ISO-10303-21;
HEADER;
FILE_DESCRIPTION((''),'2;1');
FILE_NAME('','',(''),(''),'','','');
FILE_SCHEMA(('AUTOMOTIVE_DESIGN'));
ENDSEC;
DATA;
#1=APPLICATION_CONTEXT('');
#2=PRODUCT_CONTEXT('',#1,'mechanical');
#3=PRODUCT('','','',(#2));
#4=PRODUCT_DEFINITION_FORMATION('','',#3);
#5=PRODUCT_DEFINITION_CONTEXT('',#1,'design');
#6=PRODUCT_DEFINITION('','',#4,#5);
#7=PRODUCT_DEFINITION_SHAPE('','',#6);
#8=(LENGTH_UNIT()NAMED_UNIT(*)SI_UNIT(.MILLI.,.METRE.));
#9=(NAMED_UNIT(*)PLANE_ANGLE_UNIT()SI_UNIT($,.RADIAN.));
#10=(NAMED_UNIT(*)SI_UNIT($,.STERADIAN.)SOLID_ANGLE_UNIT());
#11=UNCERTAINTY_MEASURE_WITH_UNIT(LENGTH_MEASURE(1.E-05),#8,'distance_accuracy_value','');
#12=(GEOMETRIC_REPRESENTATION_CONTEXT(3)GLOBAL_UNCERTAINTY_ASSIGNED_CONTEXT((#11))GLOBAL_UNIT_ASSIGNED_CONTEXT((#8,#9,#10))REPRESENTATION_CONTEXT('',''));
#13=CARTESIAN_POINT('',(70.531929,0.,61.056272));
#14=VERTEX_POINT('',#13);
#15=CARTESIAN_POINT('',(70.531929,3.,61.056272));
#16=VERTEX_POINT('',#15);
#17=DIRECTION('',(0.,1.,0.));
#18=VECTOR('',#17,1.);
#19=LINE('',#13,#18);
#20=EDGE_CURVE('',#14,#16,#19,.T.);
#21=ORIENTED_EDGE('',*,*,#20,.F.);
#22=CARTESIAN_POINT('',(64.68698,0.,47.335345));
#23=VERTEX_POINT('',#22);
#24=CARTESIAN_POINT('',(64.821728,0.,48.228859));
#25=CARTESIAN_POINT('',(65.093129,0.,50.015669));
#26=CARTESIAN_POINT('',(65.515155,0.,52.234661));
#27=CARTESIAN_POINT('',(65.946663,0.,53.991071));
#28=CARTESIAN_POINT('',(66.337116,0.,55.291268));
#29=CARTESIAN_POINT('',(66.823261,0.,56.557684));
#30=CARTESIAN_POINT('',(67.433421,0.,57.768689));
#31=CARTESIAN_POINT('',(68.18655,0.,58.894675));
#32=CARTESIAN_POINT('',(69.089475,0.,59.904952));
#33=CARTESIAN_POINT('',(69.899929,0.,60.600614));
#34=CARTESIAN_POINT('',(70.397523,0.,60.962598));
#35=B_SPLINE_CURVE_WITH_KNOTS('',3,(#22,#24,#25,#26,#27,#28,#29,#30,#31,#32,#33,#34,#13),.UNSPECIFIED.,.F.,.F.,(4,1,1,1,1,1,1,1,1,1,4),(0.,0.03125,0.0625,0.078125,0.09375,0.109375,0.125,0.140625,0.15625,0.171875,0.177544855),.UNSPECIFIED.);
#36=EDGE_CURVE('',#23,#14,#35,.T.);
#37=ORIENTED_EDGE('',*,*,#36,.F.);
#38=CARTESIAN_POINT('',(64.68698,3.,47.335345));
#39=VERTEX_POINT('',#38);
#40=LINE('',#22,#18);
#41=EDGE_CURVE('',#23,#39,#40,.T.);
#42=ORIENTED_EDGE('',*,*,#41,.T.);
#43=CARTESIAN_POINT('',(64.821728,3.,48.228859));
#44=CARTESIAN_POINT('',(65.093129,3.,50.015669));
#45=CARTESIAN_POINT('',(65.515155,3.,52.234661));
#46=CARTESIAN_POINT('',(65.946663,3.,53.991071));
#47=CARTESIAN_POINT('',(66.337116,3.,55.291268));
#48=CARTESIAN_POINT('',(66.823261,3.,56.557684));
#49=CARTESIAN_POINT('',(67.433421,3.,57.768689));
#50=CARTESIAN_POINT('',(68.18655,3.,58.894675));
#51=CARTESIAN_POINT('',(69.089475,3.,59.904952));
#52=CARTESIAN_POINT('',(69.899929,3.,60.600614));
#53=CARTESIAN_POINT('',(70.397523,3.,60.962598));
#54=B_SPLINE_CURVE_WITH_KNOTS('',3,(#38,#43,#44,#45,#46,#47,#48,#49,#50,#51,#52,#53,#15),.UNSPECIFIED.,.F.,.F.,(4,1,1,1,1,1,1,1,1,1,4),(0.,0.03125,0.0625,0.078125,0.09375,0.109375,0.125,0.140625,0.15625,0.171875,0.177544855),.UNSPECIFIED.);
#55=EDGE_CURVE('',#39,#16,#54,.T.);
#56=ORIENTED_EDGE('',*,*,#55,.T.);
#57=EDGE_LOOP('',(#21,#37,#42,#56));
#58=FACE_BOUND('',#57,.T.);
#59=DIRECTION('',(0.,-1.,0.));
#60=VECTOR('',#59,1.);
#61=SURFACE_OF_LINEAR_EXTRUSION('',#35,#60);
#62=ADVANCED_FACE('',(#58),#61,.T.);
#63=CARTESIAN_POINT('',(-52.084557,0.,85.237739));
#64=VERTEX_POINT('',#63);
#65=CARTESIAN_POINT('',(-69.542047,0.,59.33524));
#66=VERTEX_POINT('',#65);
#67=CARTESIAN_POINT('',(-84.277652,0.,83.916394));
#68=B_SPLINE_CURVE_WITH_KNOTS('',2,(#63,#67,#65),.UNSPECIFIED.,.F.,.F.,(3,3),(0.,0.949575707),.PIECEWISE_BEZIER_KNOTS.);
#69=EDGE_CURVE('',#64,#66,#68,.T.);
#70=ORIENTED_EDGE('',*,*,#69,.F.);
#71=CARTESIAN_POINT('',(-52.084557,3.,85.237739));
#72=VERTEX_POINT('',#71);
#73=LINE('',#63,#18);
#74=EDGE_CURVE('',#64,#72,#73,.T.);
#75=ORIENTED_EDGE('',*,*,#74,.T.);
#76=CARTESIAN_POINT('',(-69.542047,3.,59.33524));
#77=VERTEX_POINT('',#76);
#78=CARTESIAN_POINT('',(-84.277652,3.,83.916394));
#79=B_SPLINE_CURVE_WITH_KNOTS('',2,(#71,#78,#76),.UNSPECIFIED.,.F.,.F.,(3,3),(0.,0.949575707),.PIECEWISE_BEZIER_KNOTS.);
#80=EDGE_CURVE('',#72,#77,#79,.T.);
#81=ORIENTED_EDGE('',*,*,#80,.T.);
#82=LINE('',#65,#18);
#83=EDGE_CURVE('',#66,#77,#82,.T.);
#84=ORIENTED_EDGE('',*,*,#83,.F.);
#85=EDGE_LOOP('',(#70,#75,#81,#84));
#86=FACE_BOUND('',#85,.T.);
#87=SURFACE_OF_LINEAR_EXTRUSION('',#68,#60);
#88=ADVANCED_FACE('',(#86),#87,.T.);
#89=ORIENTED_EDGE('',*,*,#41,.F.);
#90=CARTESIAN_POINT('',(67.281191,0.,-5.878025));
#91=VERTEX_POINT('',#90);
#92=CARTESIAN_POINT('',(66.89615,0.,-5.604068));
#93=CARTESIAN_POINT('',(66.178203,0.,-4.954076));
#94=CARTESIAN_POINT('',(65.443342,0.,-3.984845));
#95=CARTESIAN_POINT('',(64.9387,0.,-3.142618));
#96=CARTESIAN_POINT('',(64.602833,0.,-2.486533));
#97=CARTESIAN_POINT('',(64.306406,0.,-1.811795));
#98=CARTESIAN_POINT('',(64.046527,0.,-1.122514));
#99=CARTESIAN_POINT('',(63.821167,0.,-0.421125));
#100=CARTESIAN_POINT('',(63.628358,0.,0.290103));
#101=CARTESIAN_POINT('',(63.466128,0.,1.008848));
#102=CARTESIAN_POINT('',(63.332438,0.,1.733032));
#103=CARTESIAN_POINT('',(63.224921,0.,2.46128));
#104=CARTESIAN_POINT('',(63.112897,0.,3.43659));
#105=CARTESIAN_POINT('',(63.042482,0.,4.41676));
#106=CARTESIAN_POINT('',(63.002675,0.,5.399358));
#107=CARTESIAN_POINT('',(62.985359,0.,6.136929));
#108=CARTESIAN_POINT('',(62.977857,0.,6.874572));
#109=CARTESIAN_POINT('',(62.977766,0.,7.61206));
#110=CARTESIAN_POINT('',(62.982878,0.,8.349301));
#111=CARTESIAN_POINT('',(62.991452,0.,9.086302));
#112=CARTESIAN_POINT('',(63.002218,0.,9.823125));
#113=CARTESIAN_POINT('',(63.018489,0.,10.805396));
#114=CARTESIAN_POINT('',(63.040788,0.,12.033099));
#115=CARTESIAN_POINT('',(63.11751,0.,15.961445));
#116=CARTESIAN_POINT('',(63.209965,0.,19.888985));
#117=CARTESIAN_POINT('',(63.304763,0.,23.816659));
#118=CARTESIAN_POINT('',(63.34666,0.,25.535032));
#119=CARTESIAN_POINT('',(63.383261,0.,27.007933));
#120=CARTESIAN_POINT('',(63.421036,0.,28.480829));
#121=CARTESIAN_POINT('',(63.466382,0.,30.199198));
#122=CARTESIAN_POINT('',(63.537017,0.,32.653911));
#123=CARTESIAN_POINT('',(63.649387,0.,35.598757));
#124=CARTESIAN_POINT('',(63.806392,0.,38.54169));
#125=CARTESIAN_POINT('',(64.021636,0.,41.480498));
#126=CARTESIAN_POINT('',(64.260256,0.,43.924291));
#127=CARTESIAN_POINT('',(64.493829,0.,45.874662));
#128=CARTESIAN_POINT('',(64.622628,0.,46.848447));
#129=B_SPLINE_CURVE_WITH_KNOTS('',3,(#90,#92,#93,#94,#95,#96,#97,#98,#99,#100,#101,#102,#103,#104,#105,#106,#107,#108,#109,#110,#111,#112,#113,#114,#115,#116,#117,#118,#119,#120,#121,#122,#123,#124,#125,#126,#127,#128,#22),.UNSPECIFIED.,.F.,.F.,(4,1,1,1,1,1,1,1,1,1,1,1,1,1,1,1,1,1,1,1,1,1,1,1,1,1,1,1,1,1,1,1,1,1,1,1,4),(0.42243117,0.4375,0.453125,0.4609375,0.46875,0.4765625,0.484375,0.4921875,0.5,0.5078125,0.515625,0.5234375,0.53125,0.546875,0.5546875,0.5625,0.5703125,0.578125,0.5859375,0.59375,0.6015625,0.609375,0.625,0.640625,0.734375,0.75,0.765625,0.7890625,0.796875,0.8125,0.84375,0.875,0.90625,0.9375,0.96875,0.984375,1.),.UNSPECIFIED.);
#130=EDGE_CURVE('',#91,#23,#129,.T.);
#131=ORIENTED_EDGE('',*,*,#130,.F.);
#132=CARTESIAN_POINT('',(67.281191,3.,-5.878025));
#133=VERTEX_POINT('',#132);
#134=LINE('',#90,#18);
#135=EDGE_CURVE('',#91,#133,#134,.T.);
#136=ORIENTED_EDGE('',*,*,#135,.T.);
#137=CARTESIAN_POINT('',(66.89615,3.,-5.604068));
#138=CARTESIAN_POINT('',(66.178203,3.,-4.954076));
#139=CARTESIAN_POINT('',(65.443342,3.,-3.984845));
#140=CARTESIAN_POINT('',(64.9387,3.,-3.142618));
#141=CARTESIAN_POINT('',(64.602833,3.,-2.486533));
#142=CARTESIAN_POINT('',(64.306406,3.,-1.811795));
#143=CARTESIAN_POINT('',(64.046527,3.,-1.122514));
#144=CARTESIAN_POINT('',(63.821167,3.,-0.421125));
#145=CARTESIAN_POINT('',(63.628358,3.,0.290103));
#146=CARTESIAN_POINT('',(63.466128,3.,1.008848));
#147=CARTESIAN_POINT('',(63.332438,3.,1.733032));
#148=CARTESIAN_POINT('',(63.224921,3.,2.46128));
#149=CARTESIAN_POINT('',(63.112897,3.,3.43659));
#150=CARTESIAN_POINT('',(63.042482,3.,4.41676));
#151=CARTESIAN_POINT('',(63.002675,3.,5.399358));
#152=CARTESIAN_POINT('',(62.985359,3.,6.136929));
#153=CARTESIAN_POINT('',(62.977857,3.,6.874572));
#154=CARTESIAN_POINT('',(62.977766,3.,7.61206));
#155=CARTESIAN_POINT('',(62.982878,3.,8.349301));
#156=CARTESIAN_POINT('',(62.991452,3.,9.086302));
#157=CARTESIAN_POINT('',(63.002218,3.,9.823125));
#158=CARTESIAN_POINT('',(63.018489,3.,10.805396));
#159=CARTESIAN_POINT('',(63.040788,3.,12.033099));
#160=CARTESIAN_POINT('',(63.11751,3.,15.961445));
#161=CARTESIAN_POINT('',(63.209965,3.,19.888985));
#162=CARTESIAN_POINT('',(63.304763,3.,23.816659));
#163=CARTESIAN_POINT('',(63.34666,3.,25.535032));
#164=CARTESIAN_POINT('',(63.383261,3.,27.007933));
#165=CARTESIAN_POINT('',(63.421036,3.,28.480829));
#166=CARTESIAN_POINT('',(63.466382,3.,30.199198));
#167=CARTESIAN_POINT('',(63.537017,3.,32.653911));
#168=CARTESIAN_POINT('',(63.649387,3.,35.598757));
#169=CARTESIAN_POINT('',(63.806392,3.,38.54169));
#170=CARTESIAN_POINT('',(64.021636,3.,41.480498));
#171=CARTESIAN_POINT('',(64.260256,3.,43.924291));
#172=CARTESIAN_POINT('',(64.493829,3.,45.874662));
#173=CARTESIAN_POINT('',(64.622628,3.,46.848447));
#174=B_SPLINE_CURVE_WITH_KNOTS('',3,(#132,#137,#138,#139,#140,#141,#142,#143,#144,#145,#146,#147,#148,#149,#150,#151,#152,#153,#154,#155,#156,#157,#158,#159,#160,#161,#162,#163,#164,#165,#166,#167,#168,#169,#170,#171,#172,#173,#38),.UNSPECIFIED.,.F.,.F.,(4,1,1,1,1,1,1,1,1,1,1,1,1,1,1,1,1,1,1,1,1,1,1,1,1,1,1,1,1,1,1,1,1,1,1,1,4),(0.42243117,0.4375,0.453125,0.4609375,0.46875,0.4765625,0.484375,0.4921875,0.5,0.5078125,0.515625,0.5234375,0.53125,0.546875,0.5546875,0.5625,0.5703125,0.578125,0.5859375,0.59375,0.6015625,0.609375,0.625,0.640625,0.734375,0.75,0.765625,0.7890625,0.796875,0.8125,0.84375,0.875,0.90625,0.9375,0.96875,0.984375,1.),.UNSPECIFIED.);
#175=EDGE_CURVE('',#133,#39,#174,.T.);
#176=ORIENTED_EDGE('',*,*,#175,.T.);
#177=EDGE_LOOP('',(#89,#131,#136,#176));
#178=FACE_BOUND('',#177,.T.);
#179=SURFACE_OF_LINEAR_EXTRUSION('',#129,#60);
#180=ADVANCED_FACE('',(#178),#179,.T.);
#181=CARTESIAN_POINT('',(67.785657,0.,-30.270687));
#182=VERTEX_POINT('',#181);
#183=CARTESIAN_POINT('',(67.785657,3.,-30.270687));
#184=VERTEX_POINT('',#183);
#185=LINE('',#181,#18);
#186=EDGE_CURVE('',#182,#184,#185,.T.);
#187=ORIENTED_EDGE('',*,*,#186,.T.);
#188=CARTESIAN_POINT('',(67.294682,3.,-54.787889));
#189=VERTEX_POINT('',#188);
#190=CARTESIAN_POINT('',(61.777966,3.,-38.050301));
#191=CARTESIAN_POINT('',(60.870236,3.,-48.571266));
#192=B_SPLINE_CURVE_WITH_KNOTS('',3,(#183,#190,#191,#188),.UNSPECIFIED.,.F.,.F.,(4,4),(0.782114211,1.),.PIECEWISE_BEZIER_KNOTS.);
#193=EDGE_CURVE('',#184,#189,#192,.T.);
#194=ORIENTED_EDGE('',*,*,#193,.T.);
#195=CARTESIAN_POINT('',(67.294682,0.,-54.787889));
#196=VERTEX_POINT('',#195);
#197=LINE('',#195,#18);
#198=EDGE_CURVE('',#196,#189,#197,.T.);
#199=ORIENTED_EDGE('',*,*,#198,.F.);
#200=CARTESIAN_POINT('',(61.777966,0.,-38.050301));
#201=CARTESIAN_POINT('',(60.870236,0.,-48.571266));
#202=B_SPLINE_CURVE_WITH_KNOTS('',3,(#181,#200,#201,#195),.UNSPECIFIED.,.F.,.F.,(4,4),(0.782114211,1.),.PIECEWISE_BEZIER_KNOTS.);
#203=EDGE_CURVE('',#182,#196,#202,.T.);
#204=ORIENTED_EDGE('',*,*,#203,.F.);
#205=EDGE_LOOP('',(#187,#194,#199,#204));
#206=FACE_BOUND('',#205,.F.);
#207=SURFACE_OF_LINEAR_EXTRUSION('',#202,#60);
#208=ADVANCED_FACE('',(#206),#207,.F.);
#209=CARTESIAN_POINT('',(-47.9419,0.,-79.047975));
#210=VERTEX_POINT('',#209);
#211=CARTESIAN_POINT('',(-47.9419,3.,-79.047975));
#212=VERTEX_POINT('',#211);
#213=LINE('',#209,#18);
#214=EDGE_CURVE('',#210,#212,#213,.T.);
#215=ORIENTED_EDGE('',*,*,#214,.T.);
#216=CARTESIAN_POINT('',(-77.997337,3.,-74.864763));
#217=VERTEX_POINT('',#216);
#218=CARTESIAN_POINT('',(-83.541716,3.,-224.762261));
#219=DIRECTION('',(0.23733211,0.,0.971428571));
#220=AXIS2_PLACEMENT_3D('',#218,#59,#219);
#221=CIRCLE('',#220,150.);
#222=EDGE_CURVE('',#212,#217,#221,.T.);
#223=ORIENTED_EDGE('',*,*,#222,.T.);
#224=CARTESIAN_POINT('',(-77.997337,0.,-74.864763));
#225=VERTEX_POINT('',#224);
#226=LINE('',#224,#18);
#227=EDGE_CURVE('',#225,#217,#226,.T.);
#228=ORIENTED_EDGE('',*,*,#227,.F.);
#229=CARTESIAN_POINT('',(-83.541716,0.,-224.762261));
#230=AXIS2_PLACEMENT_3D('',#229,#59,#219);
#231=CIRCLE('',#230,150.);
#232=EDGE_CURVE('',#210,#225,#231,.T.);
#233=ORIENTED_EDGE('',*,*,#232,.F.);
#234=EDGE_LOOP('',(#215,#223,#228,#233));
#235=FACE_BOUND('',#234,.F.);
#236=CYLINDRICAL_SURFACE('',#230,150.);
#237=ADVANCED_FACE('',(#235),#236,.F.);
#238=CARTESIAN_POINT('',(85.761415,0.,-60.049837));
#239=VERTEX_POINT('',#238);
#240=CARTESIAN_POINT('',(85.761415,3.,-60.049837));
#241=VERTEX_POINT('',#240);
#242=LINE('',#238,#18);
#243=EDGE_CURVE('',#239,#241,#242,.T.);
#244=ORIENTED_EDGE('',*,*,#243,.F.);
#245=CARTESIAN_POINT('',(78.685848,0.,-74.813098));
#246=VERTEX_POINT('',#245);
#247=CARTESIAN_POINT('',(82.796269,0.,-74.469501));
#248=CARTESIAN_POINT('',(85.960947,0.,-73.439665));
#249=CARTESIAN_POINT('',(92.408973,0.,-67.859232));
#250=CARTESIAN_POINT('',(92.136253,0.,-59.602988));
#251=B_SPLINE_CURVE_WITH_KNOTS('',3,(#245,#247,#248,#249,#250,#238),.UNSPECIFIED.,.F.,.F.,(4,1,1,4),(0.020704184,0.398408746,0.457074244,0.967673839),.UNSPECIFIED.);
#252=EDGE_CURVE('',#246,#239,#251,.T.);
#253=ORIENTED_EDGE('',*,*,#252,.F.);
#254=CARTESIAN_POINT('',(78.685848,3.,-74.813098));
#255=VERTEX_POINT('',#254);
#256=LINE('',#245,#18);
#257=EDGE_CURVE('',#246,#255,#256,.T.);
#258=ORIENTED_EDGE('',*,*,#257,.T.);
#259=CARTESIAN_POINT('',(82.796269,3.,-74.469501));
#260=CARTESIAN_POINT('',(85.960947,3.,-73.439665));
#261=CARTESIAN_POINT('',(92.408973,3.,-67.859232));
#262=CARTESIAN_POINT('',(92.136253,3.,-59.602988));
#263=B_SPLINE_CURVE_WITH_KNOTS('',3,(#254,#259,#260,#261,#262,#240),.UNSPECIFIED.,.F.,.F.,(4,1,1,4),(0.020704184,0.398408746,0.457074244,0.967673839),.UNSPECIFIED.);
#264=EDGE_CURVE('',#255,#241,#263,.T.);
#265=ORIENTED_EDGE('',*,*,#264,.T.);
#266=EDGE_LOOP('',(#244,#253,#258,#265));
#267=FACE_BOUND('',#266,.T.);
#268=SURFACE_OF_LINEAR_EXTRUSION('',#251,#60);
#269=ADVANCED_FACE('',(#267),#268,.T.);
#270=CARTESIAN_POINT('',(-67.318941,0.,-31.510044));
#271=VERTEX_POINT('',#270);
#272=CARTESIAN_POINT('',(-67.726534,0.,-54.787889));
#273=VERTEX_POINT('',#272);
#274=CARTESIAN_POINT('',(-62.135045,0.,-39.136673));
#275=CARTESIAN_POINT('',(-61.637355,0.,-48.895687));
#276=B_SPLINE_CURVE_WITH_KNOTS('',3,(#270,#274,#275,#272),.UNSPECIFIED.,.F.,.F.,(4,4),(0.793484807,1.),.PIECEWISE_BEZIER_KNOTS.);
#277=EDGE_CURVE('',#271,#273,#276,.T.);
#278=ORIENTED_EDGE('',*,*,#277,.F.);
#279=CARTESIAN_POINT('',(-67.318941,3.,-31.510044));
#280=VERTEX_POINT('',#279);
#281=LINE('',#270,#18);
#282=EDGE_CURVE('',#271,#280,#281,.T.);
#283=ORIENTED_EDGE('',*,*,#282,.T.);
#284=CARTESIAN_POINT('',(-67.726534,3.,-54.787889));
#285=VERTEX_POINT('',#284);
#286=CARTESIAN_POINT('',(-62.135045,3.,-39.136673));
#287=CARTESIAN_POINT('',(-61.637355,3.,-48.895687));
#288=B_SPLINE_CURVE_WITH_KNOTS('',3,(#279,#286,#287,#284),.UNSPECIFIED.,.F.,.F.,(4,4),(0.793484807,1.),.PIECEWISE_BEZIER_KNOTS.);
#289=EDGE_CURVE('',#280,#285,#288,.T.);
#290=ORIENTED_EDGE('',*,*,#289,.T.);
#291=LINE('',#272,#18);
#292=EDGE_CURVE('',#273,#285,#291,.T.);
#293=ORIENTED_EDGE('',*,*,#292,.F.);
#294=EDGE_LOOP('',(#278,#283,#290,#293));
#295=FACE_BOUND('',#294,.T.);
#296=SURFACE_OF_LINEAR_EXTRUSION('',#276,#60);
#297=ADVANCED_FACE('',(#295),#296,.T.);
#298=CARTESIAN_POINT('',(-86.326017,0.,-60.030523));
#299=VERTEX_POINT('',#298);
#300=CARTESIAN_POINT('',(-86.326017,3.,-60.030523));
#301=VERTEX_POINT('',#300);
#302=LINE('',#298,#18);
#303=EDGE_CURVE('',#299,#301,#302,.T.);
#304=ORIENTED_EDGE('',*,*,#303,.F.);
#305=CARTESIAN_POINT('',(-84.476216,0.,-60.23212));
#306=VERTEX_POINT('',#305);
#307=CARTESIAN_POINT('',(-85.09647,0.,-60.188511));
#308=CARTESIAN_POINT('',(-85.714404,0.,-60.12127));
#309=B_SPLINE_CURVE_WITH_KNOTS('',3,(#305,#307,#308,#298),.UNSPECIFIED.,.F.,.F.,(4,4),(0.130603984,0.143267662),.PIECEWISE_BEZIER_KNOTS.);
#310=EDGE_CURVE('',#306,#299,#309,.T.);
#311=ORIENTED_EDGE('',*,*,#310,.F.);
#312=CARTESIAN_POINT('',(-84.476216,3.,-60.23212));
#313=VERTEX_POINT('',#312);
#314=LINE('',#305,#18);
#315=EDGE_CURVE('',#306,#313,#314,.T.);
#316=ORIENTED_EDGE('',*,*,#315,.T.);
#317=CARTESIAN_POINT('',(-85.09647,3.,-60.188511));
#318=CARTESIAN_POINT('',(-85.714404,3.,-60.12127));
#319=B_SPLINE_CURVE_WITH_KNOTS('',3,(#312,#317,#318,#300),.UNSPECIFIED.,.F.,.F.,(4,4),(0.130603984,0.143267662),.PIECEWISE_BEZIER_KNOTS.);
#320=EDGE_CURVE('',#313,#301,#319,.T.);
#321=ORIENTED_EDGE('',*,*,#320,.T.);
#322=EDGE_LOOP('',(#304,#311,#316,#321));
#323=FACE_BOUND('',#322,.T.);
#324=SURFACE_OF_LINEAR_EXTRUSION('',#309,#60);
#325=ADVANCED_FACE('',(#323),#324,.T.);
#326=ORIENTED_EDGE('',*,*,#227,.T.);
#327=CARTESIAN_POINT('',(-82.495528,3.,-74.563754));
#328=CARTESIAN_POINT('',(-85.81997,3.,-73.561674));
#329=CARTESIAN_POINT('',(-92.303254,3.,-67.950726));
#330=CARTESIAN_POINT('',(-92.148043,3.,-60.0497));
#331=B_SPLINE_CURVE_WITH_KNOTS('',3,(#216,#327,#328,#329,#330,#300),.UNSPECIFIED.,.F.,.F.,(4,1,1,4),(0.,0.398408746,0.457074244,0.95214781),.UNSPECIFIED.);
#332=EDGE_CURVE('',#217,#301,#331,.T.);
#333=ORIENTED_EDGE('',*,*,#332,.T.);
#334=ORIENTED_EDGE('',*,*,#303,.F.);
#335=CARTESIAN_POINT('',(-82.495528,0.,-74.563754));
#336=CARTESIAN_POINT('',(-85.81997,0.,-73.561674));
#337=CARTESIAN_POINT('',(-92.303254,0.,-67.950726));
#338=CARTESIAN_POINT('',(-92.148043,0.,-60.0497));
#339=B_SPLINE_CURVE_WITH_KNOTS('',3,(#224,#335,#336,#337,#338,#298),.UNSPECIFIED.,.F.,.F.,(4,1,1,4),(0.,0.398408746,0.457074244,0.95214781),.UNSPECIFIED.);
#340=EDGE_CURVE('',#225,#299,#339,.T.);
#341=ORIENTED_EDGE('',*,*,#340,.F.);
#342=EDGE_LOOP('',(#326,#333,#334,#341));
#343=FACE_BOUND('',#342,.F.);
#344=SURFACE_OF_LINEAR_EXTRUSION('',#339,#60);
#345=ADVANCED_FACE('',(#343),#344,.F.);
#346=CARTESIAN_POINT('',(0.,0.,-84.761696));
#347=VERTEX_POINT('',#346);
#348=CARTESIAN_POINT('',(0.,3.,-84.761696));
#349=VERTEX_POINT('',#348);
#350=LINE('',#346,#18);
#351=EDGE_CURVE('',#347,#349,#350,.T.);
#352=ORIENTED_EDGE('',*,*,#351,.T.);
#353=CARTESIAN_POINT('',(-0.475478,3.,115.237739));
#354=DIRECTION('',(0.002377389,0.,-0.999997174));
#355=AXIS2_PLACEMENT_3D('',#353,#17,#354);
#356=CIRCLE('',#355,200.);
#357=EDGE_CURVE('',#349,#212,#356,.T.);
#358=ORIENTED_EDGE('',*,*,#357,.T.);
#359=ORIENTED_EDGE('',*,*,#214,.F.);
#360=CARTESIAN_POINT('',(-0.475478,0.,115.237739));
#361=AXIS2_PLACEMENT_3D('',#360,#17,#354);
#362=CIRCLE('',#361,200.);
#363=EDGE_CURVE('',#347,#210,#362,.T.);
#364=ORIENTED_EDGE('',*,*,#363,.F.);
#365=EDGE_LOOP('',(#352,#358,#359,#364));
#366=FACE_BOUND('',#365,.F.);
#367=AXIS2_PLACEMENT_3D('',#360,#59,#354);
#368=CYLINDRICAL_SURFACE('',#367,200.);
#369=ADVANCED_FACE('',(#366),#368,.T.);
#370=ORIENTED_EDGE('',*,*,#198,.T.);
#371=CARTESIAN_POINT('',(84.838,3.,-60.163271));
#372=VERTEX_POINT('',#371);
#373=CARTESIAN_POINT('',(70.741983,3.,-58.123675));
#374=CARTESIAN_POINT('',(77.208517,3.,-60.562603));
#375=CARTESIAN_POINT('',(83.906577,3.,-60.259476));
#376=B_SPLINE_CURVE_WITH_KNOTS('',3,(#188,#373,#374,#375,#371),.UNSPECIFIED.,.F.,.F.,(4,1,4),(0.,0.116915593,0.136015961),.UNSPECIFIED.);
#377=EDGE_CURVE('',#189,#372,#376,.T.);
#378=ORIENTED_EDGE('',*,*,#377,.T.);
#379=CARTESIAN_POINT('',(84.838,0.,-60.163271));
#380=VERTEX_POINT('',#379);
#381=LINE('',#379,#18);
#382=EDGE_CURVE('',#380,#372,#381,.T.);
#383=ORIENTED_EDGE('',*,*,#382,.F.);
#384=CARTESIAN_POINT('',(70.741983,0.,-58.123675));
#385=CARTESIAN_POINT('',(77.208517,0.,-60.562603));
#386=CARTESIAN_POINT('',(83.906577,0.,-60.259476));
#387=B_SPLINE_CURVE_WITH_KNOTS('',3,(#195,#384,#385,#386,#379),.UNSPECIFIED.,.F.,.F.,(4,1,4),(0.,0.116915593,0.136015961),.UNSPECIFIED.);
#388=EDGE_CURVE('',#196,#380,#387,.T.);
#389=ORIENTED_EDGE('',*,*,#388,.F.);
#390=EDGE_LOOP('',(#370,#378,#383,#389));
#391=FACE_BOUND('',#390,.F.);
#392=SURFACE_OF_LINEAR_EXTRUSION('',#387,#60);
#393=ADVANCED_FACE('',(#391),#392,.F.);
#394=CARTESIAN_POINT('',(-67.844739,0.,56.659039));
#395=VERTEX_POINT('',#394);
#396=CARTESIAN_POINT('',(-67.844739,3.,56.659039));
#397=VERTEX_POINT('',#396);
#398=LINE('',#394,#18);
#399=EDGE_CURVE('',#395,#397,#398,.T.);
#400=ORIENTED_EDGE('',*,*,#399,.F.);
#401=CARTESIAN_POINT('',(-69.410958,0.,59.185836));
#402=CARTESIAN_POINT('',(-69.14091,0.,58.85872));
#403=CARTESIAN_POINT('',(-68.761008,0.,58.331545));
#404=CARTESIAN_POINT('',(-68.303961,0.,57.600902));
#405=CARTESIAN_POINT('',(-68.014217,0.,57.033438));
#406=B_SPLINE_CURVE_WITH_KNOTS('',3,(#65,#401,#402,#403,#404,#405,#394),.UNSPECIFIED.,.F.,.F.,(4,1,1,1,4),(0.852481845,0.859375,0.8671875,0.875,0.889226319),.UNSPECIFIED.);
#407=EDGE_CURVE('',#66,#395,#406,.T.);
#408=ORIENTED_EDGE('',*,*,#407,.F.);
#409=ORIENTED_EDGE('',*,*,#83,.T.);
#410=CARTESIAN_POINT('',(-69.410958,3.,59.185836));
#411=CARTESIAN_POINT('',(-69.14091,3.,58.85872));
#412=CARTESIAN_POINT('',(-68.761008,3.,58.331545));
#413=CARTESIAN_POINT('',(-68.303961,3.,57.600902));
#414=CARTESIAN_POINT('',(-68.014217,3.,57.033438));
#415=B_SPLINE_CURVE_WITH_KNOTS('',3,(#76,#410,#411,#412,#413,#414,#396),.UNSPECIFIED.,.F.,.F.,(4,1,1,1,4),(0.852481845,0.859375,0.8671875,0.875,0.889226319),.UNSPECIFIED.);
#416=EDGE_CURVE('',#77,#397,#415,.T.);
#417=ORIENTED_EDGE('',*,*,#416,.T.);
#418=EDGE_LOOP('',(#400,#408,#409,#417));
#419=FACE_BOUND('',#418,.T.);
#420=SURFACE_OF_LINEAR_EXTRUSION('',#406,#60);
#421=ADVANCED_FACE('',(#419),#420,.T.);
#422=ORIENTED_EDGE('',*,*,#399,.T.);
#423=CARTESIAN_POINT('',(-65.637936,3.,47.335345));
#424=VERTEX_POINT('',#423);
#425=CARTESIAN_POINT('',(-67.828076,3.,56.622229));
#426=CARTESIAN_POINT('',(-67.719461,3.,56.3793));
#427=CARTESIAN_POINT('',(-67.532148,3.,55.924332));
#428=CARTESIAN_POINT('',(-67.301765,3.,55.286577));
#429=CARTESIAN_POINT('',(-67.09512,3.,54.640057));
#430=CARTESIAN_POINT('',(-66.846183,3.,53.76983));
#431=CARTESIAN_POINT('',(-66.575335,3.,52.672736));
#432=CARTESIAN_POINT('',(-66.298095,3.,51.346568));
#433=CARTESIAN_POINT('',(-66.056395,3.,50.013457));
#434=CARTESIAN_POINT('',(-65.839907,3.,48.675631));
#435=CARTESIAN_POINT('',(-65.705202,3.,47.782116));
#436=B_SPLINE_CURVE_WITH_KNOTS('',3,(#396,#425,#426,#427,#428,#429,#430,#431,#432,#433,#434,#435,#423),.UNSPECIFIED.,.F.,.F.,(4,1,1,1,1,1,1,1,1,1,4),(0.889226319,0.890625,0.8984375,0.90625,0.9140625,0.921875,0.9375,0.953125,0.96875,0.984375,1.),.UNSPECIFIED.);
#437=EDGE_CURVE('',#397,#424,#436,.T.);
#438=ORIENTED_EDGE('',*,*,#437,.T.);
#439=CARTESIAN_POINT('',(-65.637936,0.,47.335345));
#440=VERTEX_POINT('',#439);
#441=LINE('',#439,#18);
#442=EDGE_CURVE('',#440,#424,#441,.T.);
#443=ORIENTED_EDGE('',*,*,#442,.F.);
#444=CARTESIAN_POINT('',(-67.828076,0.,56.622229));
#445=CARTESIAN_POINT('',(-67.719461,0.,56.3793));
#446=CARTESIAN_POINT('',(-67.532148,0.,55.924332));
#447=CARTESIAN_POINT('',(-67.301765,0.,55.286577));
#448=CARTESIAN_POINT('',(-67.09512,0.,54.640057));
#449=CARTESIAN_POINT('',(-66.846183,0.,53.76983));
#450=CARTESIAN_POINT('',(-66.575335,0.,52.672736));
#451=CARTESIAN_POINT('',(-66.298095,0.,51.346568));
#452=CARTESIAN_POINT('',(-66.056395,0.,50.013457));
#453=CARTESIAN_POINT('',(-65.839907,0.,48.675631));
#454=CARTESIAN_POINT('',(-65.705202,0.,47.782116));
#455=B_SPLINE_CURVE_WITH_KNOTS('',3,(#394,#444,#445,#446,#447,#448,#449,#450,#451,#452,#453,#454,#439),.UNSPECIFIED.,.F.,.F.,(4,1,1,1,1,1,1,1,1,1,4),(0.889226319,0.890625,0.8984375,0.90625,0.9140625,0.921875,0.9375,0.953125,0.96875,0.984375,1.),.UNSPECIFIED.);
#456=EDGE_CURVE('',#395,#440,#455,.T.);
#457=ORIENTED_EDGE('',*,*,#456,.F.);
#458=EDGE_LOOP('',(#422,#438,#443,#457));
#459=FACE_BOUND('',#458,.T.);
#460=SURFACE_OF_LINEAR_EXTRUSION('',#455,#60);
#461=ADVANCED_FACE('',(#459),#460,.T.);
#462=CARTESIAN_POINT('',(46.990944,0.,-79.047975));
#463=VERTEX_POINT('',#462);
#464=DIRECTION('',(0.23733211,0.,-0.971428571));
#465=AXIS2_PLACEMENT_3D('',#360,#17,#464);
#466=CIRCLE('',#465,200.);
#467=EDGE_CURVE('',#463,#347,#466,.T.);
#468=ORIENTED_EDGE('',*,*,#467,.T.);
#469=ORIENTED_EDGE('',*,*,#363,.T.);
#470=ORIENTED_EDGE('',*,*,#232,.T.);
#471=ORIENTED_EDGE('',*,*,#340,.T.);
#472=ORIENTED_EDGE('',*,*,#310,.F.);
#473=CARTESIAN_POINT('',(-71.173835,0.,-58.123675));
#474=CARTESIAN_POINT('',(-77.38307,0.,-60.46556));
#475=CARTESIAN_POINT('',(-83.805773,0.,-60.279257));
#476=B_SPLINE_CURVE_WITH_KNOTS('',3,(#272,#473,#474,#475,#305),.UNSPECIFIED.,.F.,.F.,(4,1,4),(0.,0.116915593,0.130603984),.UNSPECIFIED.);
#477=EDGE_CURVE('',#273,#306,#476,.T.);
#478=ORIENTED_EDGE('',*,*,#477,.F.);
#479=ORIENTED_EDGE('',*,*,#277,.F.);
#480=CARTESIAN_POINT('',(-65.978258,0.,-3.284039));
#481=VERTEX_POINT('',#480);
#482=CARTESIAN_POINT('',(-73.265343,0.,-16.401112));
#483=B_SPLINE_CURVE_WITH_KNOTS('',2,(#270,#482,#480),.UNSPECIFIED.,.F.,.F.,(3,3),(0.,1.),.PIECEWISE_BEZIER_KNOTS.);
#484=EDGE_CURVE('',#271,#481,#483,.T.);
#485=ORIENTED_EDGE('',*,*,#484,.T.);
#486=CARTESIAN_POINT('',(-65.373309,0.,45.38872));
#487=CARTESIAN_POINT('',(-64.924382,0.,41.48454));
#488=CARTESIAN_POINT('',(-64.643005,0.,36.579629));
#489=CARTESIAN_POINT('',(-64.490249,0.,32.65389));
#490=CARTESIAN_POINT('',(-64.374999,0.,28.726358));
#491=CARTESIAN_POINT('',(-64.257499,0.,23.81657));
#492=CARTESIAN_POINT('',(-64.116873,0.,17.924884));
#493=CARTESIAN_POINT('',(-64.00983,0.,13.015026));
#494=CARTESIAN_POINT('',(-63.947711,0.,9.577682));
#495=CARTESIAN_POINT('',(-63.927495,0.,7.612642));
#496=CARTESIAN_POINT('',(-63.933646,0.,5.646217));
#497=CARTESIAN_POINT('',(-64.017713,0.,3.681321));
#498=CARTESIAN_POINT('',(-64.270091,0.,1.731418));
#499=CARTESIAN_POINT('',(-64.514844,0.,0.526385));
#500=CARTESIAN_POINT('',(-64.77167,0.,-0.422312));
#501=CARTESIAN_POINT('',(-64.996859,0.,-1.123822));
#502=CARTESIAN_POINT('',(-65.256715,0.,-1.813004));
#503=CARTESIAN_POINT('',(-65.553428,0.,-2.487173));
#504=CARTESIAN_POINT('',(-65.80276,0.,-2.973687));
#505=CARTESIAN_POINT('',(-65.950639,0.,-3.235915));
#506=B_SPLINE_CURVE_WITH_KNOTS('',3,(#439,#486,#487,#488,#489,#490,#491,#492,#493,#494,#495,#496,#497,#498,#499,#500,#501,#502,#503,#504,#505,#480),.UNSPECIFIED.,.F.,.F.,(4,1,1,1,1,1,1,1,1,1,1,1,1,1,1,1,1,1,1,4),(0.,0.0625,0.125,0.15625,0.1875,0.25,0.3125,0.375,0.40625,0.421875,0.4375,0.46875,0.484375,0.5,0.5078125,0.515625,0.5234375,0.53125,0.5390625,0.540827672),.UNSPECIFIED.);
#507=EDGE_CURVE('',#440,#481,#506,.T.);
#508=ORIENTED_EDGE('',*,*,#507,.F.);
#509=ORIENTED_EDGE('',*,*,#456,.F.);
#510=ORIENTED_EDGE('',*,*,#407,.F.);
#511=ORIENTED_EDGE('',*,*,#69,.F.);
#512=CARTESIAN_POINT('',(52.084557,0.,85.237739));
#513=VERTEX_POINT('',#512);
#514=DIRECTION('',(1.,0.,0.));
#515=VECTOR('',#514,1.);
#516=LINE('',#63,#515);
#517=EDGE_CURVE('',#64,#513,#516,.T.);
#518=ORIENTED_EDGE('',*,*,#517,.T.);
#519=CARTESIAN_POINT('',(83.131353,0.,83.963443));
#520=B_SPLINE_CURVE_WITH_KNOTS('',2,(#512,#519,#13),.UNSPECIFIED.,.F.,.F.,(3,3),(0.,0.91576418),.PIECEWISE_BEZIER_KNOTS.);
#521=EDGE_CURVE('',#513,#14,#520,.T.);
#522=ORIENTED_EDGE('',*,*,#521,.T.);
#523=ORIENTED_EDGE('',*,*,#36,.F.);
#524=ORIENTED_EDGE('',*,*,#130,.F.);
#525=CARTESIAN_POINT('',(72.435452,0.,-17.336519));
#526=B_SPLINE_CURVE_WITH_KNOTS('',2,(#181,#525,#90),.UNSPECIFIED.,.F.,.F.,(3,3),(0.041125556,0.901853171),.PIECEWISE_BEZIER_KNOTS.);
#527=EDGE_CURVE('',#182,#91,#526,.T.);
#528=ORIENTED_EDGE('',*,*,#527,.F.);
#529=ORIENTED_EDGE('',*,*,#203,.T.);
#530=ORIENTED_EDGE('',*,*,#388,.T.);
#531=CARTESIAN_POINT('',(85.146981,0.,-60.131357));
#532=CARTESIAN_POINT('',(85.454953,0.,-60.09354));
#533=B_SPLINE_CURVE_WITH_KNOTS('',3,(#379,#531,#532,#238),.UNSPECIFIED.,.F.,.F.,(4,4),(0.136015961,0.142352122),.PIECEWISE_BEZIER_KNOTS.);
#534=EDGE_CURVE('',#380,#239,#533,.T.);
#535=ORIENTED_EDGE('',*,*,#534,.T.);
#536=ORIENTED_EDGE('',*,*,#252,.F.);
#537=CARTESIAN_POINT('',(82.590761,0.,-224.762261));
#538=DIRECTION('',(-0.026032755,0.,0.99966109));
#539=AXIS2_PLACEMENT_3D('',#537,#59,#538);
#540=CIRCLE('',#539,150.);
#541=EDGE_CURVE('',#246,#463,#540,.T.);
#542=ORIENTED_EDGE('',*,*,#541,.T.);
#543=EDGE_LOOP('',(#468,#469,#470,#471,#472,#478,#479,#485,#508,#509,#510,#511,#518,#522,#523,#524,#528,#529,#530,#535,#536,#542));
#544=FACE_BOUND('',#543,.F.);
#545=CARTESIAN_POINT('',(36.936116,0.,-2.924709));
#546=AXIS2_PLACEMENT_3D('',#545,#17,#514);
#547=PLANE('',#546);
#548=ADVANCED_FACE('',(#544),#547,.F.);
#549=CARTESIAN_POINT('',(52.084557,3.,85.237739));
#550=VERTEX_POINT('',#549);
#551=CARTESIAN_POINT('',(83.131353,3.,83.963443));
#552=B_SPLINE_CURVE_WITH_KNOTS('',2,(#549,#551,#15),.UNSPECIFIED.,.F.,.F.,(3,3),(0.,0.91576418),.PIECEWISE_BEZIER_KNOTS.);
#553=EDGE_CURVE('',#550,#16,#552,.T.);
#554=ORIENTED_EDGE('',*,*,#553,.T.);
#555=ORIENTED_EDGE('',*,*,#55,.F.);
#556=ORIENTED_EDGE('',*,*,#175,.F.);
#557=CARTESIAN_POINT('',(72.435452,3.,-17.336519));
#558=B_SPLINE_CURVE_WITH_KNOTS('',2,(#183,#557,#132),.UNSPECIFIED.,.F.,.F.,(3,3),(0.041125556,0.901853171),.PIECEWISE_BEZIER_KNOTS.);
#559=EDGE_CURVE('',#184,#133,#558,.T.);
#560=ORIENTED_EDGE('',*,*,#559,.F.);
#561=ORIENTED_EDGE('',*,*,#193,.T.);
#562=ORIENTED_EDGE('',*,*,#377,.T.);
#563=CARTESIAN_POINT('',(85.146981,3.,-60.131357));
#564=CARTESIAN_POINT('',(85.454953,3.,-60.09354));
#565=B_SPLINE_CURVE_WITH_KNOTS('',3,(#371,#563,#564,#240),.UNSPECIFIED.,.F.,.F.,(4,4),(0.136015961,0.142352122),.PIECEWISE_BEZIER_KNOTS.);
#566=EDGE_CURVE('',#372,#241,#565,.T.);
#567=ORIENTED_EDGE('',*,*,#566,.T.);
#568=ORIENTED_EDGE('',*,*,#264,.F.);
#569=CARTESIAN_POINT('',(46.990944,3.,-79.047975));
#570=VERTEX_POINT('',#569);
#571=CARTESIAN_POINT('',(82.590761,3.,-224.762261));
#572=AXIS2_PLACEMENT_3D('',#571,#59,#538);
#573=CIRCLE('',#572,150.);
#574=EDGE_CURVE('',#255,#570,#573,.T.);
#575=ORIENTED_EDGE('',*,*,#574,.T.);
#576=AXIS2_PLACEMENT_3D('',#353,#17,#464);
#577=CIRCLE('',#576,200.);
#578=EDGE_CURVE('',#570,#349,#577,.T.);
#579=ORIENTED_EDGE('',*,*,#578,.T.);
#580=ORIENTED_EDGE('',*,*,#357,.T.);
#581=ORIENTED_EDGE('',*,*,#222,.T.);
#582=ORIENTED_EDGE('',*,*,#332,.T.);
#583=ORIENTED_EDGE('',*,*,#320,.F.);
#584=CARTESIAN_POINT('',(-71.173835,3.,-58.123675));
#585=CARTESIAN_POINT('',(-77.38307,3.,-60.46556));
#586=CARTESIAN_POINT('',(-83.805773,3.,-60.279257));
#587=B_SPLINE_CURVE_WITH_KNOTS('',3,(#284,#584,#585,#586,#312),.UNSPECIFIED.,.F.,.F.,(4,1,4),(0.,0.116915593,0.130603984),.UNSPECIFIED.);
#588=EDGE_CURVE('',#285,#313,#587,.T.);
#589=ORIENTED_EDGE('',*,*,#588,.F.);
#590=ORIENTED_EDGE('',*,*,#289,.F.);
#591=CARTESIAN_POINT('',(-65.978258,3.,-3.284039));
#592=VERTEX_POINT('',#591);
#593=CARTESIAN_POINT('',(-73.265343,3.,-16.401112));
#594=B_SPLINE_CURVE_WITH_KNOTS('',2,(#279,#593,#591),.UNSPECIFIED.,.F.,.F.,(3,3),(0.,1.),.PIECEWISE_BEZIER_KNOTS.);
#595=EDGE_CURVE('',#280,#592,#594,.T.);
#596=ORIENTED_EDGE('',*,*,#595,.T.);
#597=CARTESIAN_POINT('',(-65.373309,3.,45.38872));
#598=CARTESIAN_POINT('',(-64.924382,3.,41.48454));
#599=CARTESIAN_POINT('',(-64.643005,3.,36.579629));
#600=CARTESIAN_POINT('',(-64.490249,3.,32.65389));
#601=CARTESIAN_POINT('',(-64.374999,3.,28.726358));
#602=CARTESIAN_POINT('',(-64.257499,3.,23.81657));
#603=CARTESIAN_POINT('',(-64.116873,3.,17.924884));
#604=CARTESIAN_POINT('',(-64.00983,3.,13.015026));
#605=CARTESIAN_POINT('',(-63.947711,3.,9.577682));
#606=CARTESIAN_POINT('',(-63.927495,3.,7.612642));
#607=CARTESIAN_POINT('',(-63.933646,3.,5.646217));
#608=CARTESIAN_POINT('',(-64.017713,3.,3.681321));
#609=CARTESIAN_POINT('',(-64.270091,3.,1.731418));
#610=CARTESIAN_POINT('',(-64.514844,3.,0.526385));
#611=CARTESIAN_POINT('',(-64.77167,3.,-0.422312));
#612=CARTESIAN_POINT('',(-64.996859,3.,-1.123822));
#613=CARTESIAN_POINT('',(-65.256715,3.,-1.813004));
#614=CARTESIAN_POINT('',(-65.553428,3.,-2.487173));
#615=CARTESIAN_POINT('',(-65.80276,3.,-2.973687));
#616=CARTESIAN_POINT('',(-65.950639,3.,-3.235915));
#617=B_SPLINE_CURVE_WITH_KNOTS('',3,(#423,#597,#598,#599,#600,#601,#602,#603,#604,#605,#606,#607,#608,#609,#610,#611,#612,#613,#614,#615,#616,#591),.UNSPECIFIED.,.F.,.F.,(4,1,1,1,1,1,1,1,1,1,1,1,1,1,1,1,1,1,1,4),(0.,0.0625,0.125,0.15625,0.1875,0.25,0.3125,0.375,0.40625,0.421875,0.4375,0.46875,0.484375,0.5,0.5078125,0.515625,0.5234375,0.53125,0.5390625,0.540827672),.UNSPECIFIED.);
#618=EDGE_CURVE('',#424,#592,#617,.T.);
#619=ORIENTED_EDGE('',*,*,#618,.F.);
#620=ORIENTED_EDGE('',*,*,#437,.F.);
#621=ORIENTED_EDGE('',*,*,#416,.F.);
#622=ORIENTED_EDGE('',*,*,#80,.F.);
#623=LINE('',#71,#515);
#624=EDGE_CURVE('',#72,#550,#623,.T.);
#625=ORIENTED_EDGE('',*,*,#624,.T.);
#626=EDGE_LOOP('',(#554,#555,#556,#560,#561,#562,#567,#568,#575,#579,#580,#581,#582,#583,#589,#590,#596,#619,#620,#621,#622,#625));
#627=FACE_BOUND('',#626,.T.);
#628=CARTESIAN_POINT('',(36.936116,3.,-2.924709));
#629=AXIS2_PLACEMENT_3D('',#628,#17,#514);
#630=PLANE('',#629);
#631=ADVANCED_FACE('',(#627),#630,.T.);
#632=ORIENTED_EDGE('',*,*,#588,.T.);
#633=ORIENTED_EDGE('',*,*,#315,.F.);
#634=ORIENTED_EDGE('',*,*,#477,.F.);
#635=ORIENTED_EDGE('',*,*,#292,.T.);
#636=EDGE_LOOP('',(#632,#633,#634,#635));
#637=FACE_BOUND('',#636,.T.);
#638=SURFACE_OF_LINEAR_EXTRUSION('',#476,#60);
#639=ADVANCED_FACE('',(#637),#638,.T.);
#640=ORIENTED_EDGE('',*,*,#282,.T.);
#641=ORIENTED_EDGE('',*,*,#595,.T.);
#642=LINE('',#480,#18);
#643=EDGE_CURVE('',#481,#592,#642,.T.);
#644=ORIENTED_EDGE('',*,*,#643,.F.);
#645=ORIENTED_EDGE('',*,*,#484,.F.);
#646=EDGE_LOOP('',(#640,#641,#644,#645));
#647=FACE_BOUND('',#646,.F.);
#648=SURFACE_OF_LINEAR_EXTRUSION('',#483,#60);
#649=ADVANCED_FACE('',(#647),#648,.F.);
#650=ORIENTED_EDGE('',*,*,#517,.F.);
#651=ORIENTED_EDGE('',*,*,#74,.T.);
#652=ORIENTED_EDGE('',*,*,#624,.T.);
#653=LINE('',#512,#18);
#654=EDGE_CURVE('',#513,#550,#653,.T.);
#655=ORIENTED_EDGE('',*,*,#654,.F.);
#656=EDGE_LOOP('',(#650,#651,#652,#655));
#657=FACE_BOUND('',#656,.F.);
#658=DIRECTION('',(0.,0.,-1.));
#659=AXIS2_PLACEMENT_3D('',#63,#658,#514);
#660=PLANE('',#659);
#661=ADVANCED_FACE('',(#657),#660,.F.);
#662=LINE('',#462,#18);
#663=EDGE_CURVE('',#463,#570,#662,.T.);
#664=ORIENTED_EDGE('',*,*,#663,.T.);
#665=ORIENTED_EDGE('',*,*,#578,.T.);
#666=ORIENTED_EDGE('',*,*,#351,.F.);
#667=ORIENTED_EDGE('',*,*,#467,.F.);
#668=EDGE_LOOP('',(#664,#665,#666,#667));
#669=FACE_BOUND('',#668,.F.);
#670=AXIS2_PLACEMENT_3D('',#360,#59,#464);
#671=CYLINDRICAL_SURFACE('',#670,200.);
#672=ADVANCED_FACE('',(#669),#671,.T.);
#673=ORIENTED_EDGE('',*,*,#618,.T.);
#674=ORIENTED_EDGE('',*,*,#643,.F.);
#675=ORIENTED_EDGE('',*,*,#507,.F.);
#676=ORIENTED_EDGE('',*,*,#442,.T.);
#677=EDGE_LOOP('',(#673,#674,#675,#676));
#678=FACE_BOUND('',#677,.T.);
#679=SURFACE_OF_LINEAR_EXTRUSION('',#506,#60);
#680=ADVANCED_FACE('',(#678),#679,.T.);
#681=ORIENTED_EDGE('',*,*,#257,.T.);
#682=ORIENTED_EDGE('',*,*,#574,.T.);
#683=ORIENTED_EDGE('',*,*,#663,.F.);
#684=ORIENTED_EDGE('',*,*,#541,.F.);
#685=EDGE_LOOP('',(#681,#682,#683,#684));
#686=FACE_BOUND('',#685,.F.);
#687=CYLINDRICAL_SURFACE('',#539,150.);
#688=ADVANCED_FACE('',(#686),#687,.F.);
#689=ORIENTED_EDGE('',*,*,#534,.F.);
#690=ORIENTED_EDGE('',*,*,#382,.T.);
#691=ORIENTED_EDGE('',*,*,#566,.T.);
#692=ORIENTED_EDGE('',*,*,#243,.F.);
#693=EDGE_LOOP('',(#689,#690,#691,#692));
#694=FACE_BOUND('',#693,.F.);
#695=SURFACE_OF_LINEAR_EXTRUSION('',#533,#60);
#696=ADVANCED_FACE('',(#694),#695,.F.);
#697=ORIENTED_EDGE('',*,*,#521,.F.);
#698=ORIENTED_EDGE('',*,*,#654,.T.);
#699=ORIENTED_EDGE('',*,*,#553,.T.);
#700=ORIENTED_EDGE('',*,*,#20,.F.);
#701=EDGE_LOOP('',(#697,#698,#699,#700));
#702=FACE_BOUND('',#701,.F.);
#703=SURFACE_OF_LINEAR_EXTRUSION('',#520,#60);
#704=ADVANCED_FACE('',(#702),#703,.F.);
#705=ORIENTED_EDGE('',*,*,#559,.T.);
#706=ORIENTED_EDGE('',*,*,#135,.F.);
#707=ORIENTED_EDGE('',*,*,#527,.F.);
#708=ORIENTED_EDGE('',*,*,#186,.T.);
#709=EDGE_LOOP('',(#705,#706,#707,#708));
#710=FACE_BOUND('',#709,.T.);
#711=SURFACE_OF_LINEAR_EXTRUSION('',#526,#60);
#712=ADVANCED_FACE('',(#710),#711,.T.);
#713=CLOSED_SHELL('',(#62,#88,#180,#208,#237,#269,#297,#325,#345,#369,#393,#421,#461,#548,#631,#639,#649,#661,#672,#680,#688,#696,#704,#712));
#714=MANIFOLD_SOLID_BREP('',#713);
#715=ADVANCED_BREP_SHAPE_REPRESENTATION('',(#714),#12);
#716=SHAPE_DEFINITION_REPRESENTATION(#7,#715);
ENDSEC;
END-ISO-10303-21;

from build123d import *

# Parameters (mm, degrees)
EXTRUDE_1_DEPTH = 3


with BuildPart() as part:
    # 草图1 → 凸台-拉伸1 (new body)
    with BuildSketch(Plane(origin=(0, 0, 0), x_dir=(1, 0, 0), z_dir=(0, 1, 0))):
        with BuildLine():
            Line((0, -85.237738925), (52.08455714, -85.237738925))
            add(Edge.make_bspline(
                [(52.08455714, -85.237738925), (83.131353316, -83.963442969), (70.531928888, -61.056271567)],
                knots=[0, 0, 0, 0.91576418, 0.91576418, 0.91576418], degree=2))
            add(Edge.make_bspline(
                [(64.686979765, -47.335345252), (64.821728452, -48.22885898), (65.093128633, -50.015668979), (65.515155467, -52.234660938), (65.946662506, -53.991070652), (66.337115564, -55.291267739), (66.823261096, -56.557684193), (67.433421369, -57.768689415), (68.186549634, -58.894674775), (69.089475072, -59.904951843), (69.899928779, -60.600614164), (70.397522986, -60.962598407), (70.531928888, -61.056271567)],
                knots=[0, 0, 0, 0, 0.03125, 0.0625, 0.078125, 0.09375, 0.109375, 0.125, 0.140625, 0.15625, 0.171875, 0.177544855, 0.177544855, 0.177544855, 0.177544855], degree=3))
            add(Edge.make_bspline(
                [(67.281190845, 5.878024568), (66.896150113, 5.604067681), (66.17820277, 4.954075775), (65.443341839, 3.984844748), (64.938700468, 3.142617887), (64.602832741, 2.486533462), (64.306406192, 1.811794699), (64.046527331, 1.122513569), (63.82116748, 0.421125393), (63.628358492, -0.290103239), (63.466128453, -1.008847892), (63.332437978, -1.733031566), (63.224920724, -2.461279505), (63.112896984, -3.436590381), (63.04248237, -4.416759867), (63.002674943, -5.39935773), (62.985358555, -6.136929173), (62.977857057, -6.874572053), (62.977765693, -7.612059791), (62.982878051, -8.349301424), (62.991452287, -9.086301707), (63.002218337, -9.823125162), (63.018489212, -10.805396372), (63.040788209, -12.033099303), (63.117509988, -15.961444796), (63.209965223, -19.888985412), (63.30476302, -23.816659201), (63.346660287, -25.535031616), (63.38326061, -27.007933212), (63.421035997, -28.480829039), (63.466381834, -30.199198036), (63.537017062, -32.653910516), (63.649386664, -35.598757346), (63.806392131, -38.54169042), (64.021636354, -41.480498428), (64.260256253, -43.924290625), (64.493829102, -45.874662228), (64.622628022, -46.848447014), (64.686979765, -47.335345252)],
                knots=[0.42243117, 0.42243117, 0.42243117, 0.42243117, 0.4375, 0.453125, 0.4609375, 0.46875, 0.4765625, 0.484375, 0.4921875, 0.5, 0.5078125, 0.515625, 0.5234375, 0.53125, 0.546875, 0.5546875, 0.5625, 0.5703125, 0.578125, 0.5859375, 0.59375, 0.6015625, 0.609375, 0.625, 0.640625, 0.734375, 0.75, 0.765625, 0.7890625, 0.796875, 0.8125, 0.84375, 0.875, 0.90625, 0.9375, 0.96875, 0.984375, 1, 1, 1, 1], degree=3))
            add(Edge.make_bspline(
                [(67.78565705, 30.270686681), (72.435451847, 17.336518953), (67.281190845, 5.878024568)],
                knots=[0.041125556, 0.041125556, 0.041125556, 0.901853171, 0.901853171, 0.901853171], degree=2))
            add(Edge.make_bspline(
                [(67.78565705, 30.270686681), (61.777966314, 38.050300603), (60.870236454, 48.571265725), (67.294682301, 54.787889309)],
                knots=[0.782114211, 0.782114211, 0.782114211, 0.782114211, 1, 1, 1, 1], degree=3))
            add(Edge.make_bspline(
                [(67.294682301, 54.787889309), (70.741983298, 58.123674712), (77.208516837, 60.562602986), (83.906576895, 60.259476119), (84.838000271, 60.163270829)],
                knots=[0, 0, 0, 0, 0.116915593, 0.136015961, 0.136015961, 0.136015961, 0.136015961], degree=3))
            add(Edge.make_bspline(
                [(84.838000271, 60.163270829), (85.146981152, 60.131356669), (85.454953169, 60.093539936), (85.761414982, 60.04983651)],
                knots=[0.136015961, 0.136015961, 0.136015961, 0.136015961, 0.142352122, 0.142352122, 0.142352122, 0.142352122], degree=3))
            add(Edge.make_bspline(
                [(78.685847617, 74.813097523), (82.796268879, 74.469500522), (85.960946813, 73.439665414), (92.408972751, 67.859232167), (92.136253049, 59.602987515), (85.761414982, 60.04983651)],
                knots=[0.020704184, 0.020704184, 0.020704184, 0.020704184, 0.398408746, 0.457074244, 0.967673839, 0.967673839, 0.967673839, 0.967673839], degree=3))
            ThreePointArc((78.685847617, 74.813097523), (62.72522618, 76.083545277), (46.990944234, 79.047975372))
            ThreePointArc((46.990944234, 79.047975372), (23.665112301, 83.299995302), (0, 84.761695887))
            Line((0, 84.761695887), (0, -85.237738925))
        make_face()
        with BuildLine():
            Line((-52.08455714, -85.237738925), (0, -85.237738925))
            Line((0, -85.237738925), (0, 84.761695887))
            ThreePointArc((0, 84.761695887), (-24.143998295, 83.356825814), (-47.941899914, 79.047975372))
            ThreePointArc((-47.941899914, 79.047975372), (-62.863562899, 76.194384461), (-77.997336876, 74.864763259))
            add(Edge.make_bspline(
                [(-77.997336876, 74.864763259), (-82.495528452, 74.563753901), (-85.819969627, 73.561673882), (-92.303254227, 67.950726086), (-92.148043047, 60.049699914), (-86.326016832, 60.03052313)],
                knots=[0, 0, 0, 0, 0.398408746, 0.457074244, 0.95214781, 0.95214781, 0.95214781, 0.95214781], degree=3))
            add(Edge.make_bspline(
                [(-84.476216485, 60.232119747), (-85.0964702, 60.188510883), (-85.714404489, 60.121269756), (-86.326016832, 60.03052313)],
                knots=[0.130603984, 0.130603984, 0.130603984, 0.130603984, 0.143267662, 0.143267662, 0.143267662, 0.143267662], degree=3))
            add(Edge.make_bspline(
                [(-67.726534157, 54.787889309), (-71.173835153, 58.123674712), (-77.383070006, 60.465559796), (-83.805773382, 60.279257331), (-84.476216485, 60.232119747)],
                knots=[0, 0, 0, 0, 0.116915593, 0.130603984, 0.130603984, 0.130603984, 0.130603984], degree=3))
            add(Edge.make_bspline(
                [(-67.318940817, 31.510044314), (-62.135044836, 39.136673255), (-61.6373547, 48.895686695), (-67.726534157, 54.787889309)],
                knots=[0.793484807, 0.793484807, 0.793484807, 0.793484807, 1, 1, 1, 1], degree=3))
            add(Edge.make_bspline(
                [(-67.318940817, 31.510044314), (-73.265342886, 16.40111188), (-65.978257792, 3.284039205)],
                knots=[0, 0, 0, 1, 1, 1], degree=2))
            add(Edge.make_bspline(
                [(-65.637935545, -47.335345136), (-65.373308793, -45.388720399), (-64.924382386, -41.484539572), (-64.643005293, -36.57962883), (-64.490248654, -32.653889947), (-64.374999228, -28.726358209), (-64.257498755, -23.816569768), (-64.116872777, -17.924883735), (-64.009829941, -13.015026184), (-63.947711012, -9.577682419), (-63.927494686, -7.612641533), (-63.933645618, -5.646217447), (-64.01771328, -3.681321264), (-64.270091341, -1.731417529), (-64.514844339, -0.526384591), (-64.771670226, 0.42231228), (-64.996859302, 1.123821794), (-65.256715294, 1.813004408), (-65.553427674, 2.487173233), (-65.802759649, 2.973687329), (-65.950639045, 3.235914899), (-65.978257792, 3.284039205)],
                knots=[0, 0, 0, 0, 0.0625, 0.125, 0.15625, 0.1875, 0.25, 0.3125, 0.375, 0.40625, 0.421875, 0.4375, 0.46875, 0.484375, 0.5, 0.5078125, 0.515625, 0.5234375, 0.53125, 0.5390625, 0.540827672, 0.540827672, 0.540827672, 0.540827672], degree=3))
            add(Edge.make_bspline(
                [(-67.844738769, -56.659038975), (-67.828076267, -56.622229396), (-67.719460833, -56.379300174), (-67.532147702, -55.924331546), (-67.301765295, -55.286577262), (-67.095120003, -54.640057247), (-66.846182809, -53.769830042), (-66.575335176, -52.672735761), (-66.298095135, -51.346567808), (-66.056394972, -50.013457449), (-65.839906621, -48.675631298), (-65.705201894, -47.782116323), (-65.637935545, -47.335345136)],
                knots=[0.889226319, 0.889226319, 0.889226319, 0.889226319, 0.890625, 0.8984375, 0.90625, 0.9140625, 0.921875, 0.9375, 0.953125, 0.96875, 0.984375, 1, 1, 1, 1], degree=3))
            add(Edge.make_bspline(
                [(-69.542046847, -59.335240196), (-69.41095783, -59.185836173), (-69.140909763, -58.858719517), (-68.761007501, -58.331544507), (-68.303961157, -57.600902177), (-68.014217124, -57.033438144), (-67.844738769, -56.659038975)],
                knots=[0.852481845, 0.852481845, 0.852481845, 0.852481845, 0.859375, 0.8671875, 0.875, 0.889226319, 0.889226319, 0.889226319, 0.889226319], degree=3))
            add(Edge.make_bspline(
                [(-52.08455714, -85.237738925), (-84.277652341, -83.916393856), (-69.542046847, -59.335240196)],
                knots=[0, 0, 0, 0.949575707, 0.949575707, 0.949575707], degree=2))
        make_face()
    extrude(amount=EXTRUDE_1_DEPTH)


solid = part.part
